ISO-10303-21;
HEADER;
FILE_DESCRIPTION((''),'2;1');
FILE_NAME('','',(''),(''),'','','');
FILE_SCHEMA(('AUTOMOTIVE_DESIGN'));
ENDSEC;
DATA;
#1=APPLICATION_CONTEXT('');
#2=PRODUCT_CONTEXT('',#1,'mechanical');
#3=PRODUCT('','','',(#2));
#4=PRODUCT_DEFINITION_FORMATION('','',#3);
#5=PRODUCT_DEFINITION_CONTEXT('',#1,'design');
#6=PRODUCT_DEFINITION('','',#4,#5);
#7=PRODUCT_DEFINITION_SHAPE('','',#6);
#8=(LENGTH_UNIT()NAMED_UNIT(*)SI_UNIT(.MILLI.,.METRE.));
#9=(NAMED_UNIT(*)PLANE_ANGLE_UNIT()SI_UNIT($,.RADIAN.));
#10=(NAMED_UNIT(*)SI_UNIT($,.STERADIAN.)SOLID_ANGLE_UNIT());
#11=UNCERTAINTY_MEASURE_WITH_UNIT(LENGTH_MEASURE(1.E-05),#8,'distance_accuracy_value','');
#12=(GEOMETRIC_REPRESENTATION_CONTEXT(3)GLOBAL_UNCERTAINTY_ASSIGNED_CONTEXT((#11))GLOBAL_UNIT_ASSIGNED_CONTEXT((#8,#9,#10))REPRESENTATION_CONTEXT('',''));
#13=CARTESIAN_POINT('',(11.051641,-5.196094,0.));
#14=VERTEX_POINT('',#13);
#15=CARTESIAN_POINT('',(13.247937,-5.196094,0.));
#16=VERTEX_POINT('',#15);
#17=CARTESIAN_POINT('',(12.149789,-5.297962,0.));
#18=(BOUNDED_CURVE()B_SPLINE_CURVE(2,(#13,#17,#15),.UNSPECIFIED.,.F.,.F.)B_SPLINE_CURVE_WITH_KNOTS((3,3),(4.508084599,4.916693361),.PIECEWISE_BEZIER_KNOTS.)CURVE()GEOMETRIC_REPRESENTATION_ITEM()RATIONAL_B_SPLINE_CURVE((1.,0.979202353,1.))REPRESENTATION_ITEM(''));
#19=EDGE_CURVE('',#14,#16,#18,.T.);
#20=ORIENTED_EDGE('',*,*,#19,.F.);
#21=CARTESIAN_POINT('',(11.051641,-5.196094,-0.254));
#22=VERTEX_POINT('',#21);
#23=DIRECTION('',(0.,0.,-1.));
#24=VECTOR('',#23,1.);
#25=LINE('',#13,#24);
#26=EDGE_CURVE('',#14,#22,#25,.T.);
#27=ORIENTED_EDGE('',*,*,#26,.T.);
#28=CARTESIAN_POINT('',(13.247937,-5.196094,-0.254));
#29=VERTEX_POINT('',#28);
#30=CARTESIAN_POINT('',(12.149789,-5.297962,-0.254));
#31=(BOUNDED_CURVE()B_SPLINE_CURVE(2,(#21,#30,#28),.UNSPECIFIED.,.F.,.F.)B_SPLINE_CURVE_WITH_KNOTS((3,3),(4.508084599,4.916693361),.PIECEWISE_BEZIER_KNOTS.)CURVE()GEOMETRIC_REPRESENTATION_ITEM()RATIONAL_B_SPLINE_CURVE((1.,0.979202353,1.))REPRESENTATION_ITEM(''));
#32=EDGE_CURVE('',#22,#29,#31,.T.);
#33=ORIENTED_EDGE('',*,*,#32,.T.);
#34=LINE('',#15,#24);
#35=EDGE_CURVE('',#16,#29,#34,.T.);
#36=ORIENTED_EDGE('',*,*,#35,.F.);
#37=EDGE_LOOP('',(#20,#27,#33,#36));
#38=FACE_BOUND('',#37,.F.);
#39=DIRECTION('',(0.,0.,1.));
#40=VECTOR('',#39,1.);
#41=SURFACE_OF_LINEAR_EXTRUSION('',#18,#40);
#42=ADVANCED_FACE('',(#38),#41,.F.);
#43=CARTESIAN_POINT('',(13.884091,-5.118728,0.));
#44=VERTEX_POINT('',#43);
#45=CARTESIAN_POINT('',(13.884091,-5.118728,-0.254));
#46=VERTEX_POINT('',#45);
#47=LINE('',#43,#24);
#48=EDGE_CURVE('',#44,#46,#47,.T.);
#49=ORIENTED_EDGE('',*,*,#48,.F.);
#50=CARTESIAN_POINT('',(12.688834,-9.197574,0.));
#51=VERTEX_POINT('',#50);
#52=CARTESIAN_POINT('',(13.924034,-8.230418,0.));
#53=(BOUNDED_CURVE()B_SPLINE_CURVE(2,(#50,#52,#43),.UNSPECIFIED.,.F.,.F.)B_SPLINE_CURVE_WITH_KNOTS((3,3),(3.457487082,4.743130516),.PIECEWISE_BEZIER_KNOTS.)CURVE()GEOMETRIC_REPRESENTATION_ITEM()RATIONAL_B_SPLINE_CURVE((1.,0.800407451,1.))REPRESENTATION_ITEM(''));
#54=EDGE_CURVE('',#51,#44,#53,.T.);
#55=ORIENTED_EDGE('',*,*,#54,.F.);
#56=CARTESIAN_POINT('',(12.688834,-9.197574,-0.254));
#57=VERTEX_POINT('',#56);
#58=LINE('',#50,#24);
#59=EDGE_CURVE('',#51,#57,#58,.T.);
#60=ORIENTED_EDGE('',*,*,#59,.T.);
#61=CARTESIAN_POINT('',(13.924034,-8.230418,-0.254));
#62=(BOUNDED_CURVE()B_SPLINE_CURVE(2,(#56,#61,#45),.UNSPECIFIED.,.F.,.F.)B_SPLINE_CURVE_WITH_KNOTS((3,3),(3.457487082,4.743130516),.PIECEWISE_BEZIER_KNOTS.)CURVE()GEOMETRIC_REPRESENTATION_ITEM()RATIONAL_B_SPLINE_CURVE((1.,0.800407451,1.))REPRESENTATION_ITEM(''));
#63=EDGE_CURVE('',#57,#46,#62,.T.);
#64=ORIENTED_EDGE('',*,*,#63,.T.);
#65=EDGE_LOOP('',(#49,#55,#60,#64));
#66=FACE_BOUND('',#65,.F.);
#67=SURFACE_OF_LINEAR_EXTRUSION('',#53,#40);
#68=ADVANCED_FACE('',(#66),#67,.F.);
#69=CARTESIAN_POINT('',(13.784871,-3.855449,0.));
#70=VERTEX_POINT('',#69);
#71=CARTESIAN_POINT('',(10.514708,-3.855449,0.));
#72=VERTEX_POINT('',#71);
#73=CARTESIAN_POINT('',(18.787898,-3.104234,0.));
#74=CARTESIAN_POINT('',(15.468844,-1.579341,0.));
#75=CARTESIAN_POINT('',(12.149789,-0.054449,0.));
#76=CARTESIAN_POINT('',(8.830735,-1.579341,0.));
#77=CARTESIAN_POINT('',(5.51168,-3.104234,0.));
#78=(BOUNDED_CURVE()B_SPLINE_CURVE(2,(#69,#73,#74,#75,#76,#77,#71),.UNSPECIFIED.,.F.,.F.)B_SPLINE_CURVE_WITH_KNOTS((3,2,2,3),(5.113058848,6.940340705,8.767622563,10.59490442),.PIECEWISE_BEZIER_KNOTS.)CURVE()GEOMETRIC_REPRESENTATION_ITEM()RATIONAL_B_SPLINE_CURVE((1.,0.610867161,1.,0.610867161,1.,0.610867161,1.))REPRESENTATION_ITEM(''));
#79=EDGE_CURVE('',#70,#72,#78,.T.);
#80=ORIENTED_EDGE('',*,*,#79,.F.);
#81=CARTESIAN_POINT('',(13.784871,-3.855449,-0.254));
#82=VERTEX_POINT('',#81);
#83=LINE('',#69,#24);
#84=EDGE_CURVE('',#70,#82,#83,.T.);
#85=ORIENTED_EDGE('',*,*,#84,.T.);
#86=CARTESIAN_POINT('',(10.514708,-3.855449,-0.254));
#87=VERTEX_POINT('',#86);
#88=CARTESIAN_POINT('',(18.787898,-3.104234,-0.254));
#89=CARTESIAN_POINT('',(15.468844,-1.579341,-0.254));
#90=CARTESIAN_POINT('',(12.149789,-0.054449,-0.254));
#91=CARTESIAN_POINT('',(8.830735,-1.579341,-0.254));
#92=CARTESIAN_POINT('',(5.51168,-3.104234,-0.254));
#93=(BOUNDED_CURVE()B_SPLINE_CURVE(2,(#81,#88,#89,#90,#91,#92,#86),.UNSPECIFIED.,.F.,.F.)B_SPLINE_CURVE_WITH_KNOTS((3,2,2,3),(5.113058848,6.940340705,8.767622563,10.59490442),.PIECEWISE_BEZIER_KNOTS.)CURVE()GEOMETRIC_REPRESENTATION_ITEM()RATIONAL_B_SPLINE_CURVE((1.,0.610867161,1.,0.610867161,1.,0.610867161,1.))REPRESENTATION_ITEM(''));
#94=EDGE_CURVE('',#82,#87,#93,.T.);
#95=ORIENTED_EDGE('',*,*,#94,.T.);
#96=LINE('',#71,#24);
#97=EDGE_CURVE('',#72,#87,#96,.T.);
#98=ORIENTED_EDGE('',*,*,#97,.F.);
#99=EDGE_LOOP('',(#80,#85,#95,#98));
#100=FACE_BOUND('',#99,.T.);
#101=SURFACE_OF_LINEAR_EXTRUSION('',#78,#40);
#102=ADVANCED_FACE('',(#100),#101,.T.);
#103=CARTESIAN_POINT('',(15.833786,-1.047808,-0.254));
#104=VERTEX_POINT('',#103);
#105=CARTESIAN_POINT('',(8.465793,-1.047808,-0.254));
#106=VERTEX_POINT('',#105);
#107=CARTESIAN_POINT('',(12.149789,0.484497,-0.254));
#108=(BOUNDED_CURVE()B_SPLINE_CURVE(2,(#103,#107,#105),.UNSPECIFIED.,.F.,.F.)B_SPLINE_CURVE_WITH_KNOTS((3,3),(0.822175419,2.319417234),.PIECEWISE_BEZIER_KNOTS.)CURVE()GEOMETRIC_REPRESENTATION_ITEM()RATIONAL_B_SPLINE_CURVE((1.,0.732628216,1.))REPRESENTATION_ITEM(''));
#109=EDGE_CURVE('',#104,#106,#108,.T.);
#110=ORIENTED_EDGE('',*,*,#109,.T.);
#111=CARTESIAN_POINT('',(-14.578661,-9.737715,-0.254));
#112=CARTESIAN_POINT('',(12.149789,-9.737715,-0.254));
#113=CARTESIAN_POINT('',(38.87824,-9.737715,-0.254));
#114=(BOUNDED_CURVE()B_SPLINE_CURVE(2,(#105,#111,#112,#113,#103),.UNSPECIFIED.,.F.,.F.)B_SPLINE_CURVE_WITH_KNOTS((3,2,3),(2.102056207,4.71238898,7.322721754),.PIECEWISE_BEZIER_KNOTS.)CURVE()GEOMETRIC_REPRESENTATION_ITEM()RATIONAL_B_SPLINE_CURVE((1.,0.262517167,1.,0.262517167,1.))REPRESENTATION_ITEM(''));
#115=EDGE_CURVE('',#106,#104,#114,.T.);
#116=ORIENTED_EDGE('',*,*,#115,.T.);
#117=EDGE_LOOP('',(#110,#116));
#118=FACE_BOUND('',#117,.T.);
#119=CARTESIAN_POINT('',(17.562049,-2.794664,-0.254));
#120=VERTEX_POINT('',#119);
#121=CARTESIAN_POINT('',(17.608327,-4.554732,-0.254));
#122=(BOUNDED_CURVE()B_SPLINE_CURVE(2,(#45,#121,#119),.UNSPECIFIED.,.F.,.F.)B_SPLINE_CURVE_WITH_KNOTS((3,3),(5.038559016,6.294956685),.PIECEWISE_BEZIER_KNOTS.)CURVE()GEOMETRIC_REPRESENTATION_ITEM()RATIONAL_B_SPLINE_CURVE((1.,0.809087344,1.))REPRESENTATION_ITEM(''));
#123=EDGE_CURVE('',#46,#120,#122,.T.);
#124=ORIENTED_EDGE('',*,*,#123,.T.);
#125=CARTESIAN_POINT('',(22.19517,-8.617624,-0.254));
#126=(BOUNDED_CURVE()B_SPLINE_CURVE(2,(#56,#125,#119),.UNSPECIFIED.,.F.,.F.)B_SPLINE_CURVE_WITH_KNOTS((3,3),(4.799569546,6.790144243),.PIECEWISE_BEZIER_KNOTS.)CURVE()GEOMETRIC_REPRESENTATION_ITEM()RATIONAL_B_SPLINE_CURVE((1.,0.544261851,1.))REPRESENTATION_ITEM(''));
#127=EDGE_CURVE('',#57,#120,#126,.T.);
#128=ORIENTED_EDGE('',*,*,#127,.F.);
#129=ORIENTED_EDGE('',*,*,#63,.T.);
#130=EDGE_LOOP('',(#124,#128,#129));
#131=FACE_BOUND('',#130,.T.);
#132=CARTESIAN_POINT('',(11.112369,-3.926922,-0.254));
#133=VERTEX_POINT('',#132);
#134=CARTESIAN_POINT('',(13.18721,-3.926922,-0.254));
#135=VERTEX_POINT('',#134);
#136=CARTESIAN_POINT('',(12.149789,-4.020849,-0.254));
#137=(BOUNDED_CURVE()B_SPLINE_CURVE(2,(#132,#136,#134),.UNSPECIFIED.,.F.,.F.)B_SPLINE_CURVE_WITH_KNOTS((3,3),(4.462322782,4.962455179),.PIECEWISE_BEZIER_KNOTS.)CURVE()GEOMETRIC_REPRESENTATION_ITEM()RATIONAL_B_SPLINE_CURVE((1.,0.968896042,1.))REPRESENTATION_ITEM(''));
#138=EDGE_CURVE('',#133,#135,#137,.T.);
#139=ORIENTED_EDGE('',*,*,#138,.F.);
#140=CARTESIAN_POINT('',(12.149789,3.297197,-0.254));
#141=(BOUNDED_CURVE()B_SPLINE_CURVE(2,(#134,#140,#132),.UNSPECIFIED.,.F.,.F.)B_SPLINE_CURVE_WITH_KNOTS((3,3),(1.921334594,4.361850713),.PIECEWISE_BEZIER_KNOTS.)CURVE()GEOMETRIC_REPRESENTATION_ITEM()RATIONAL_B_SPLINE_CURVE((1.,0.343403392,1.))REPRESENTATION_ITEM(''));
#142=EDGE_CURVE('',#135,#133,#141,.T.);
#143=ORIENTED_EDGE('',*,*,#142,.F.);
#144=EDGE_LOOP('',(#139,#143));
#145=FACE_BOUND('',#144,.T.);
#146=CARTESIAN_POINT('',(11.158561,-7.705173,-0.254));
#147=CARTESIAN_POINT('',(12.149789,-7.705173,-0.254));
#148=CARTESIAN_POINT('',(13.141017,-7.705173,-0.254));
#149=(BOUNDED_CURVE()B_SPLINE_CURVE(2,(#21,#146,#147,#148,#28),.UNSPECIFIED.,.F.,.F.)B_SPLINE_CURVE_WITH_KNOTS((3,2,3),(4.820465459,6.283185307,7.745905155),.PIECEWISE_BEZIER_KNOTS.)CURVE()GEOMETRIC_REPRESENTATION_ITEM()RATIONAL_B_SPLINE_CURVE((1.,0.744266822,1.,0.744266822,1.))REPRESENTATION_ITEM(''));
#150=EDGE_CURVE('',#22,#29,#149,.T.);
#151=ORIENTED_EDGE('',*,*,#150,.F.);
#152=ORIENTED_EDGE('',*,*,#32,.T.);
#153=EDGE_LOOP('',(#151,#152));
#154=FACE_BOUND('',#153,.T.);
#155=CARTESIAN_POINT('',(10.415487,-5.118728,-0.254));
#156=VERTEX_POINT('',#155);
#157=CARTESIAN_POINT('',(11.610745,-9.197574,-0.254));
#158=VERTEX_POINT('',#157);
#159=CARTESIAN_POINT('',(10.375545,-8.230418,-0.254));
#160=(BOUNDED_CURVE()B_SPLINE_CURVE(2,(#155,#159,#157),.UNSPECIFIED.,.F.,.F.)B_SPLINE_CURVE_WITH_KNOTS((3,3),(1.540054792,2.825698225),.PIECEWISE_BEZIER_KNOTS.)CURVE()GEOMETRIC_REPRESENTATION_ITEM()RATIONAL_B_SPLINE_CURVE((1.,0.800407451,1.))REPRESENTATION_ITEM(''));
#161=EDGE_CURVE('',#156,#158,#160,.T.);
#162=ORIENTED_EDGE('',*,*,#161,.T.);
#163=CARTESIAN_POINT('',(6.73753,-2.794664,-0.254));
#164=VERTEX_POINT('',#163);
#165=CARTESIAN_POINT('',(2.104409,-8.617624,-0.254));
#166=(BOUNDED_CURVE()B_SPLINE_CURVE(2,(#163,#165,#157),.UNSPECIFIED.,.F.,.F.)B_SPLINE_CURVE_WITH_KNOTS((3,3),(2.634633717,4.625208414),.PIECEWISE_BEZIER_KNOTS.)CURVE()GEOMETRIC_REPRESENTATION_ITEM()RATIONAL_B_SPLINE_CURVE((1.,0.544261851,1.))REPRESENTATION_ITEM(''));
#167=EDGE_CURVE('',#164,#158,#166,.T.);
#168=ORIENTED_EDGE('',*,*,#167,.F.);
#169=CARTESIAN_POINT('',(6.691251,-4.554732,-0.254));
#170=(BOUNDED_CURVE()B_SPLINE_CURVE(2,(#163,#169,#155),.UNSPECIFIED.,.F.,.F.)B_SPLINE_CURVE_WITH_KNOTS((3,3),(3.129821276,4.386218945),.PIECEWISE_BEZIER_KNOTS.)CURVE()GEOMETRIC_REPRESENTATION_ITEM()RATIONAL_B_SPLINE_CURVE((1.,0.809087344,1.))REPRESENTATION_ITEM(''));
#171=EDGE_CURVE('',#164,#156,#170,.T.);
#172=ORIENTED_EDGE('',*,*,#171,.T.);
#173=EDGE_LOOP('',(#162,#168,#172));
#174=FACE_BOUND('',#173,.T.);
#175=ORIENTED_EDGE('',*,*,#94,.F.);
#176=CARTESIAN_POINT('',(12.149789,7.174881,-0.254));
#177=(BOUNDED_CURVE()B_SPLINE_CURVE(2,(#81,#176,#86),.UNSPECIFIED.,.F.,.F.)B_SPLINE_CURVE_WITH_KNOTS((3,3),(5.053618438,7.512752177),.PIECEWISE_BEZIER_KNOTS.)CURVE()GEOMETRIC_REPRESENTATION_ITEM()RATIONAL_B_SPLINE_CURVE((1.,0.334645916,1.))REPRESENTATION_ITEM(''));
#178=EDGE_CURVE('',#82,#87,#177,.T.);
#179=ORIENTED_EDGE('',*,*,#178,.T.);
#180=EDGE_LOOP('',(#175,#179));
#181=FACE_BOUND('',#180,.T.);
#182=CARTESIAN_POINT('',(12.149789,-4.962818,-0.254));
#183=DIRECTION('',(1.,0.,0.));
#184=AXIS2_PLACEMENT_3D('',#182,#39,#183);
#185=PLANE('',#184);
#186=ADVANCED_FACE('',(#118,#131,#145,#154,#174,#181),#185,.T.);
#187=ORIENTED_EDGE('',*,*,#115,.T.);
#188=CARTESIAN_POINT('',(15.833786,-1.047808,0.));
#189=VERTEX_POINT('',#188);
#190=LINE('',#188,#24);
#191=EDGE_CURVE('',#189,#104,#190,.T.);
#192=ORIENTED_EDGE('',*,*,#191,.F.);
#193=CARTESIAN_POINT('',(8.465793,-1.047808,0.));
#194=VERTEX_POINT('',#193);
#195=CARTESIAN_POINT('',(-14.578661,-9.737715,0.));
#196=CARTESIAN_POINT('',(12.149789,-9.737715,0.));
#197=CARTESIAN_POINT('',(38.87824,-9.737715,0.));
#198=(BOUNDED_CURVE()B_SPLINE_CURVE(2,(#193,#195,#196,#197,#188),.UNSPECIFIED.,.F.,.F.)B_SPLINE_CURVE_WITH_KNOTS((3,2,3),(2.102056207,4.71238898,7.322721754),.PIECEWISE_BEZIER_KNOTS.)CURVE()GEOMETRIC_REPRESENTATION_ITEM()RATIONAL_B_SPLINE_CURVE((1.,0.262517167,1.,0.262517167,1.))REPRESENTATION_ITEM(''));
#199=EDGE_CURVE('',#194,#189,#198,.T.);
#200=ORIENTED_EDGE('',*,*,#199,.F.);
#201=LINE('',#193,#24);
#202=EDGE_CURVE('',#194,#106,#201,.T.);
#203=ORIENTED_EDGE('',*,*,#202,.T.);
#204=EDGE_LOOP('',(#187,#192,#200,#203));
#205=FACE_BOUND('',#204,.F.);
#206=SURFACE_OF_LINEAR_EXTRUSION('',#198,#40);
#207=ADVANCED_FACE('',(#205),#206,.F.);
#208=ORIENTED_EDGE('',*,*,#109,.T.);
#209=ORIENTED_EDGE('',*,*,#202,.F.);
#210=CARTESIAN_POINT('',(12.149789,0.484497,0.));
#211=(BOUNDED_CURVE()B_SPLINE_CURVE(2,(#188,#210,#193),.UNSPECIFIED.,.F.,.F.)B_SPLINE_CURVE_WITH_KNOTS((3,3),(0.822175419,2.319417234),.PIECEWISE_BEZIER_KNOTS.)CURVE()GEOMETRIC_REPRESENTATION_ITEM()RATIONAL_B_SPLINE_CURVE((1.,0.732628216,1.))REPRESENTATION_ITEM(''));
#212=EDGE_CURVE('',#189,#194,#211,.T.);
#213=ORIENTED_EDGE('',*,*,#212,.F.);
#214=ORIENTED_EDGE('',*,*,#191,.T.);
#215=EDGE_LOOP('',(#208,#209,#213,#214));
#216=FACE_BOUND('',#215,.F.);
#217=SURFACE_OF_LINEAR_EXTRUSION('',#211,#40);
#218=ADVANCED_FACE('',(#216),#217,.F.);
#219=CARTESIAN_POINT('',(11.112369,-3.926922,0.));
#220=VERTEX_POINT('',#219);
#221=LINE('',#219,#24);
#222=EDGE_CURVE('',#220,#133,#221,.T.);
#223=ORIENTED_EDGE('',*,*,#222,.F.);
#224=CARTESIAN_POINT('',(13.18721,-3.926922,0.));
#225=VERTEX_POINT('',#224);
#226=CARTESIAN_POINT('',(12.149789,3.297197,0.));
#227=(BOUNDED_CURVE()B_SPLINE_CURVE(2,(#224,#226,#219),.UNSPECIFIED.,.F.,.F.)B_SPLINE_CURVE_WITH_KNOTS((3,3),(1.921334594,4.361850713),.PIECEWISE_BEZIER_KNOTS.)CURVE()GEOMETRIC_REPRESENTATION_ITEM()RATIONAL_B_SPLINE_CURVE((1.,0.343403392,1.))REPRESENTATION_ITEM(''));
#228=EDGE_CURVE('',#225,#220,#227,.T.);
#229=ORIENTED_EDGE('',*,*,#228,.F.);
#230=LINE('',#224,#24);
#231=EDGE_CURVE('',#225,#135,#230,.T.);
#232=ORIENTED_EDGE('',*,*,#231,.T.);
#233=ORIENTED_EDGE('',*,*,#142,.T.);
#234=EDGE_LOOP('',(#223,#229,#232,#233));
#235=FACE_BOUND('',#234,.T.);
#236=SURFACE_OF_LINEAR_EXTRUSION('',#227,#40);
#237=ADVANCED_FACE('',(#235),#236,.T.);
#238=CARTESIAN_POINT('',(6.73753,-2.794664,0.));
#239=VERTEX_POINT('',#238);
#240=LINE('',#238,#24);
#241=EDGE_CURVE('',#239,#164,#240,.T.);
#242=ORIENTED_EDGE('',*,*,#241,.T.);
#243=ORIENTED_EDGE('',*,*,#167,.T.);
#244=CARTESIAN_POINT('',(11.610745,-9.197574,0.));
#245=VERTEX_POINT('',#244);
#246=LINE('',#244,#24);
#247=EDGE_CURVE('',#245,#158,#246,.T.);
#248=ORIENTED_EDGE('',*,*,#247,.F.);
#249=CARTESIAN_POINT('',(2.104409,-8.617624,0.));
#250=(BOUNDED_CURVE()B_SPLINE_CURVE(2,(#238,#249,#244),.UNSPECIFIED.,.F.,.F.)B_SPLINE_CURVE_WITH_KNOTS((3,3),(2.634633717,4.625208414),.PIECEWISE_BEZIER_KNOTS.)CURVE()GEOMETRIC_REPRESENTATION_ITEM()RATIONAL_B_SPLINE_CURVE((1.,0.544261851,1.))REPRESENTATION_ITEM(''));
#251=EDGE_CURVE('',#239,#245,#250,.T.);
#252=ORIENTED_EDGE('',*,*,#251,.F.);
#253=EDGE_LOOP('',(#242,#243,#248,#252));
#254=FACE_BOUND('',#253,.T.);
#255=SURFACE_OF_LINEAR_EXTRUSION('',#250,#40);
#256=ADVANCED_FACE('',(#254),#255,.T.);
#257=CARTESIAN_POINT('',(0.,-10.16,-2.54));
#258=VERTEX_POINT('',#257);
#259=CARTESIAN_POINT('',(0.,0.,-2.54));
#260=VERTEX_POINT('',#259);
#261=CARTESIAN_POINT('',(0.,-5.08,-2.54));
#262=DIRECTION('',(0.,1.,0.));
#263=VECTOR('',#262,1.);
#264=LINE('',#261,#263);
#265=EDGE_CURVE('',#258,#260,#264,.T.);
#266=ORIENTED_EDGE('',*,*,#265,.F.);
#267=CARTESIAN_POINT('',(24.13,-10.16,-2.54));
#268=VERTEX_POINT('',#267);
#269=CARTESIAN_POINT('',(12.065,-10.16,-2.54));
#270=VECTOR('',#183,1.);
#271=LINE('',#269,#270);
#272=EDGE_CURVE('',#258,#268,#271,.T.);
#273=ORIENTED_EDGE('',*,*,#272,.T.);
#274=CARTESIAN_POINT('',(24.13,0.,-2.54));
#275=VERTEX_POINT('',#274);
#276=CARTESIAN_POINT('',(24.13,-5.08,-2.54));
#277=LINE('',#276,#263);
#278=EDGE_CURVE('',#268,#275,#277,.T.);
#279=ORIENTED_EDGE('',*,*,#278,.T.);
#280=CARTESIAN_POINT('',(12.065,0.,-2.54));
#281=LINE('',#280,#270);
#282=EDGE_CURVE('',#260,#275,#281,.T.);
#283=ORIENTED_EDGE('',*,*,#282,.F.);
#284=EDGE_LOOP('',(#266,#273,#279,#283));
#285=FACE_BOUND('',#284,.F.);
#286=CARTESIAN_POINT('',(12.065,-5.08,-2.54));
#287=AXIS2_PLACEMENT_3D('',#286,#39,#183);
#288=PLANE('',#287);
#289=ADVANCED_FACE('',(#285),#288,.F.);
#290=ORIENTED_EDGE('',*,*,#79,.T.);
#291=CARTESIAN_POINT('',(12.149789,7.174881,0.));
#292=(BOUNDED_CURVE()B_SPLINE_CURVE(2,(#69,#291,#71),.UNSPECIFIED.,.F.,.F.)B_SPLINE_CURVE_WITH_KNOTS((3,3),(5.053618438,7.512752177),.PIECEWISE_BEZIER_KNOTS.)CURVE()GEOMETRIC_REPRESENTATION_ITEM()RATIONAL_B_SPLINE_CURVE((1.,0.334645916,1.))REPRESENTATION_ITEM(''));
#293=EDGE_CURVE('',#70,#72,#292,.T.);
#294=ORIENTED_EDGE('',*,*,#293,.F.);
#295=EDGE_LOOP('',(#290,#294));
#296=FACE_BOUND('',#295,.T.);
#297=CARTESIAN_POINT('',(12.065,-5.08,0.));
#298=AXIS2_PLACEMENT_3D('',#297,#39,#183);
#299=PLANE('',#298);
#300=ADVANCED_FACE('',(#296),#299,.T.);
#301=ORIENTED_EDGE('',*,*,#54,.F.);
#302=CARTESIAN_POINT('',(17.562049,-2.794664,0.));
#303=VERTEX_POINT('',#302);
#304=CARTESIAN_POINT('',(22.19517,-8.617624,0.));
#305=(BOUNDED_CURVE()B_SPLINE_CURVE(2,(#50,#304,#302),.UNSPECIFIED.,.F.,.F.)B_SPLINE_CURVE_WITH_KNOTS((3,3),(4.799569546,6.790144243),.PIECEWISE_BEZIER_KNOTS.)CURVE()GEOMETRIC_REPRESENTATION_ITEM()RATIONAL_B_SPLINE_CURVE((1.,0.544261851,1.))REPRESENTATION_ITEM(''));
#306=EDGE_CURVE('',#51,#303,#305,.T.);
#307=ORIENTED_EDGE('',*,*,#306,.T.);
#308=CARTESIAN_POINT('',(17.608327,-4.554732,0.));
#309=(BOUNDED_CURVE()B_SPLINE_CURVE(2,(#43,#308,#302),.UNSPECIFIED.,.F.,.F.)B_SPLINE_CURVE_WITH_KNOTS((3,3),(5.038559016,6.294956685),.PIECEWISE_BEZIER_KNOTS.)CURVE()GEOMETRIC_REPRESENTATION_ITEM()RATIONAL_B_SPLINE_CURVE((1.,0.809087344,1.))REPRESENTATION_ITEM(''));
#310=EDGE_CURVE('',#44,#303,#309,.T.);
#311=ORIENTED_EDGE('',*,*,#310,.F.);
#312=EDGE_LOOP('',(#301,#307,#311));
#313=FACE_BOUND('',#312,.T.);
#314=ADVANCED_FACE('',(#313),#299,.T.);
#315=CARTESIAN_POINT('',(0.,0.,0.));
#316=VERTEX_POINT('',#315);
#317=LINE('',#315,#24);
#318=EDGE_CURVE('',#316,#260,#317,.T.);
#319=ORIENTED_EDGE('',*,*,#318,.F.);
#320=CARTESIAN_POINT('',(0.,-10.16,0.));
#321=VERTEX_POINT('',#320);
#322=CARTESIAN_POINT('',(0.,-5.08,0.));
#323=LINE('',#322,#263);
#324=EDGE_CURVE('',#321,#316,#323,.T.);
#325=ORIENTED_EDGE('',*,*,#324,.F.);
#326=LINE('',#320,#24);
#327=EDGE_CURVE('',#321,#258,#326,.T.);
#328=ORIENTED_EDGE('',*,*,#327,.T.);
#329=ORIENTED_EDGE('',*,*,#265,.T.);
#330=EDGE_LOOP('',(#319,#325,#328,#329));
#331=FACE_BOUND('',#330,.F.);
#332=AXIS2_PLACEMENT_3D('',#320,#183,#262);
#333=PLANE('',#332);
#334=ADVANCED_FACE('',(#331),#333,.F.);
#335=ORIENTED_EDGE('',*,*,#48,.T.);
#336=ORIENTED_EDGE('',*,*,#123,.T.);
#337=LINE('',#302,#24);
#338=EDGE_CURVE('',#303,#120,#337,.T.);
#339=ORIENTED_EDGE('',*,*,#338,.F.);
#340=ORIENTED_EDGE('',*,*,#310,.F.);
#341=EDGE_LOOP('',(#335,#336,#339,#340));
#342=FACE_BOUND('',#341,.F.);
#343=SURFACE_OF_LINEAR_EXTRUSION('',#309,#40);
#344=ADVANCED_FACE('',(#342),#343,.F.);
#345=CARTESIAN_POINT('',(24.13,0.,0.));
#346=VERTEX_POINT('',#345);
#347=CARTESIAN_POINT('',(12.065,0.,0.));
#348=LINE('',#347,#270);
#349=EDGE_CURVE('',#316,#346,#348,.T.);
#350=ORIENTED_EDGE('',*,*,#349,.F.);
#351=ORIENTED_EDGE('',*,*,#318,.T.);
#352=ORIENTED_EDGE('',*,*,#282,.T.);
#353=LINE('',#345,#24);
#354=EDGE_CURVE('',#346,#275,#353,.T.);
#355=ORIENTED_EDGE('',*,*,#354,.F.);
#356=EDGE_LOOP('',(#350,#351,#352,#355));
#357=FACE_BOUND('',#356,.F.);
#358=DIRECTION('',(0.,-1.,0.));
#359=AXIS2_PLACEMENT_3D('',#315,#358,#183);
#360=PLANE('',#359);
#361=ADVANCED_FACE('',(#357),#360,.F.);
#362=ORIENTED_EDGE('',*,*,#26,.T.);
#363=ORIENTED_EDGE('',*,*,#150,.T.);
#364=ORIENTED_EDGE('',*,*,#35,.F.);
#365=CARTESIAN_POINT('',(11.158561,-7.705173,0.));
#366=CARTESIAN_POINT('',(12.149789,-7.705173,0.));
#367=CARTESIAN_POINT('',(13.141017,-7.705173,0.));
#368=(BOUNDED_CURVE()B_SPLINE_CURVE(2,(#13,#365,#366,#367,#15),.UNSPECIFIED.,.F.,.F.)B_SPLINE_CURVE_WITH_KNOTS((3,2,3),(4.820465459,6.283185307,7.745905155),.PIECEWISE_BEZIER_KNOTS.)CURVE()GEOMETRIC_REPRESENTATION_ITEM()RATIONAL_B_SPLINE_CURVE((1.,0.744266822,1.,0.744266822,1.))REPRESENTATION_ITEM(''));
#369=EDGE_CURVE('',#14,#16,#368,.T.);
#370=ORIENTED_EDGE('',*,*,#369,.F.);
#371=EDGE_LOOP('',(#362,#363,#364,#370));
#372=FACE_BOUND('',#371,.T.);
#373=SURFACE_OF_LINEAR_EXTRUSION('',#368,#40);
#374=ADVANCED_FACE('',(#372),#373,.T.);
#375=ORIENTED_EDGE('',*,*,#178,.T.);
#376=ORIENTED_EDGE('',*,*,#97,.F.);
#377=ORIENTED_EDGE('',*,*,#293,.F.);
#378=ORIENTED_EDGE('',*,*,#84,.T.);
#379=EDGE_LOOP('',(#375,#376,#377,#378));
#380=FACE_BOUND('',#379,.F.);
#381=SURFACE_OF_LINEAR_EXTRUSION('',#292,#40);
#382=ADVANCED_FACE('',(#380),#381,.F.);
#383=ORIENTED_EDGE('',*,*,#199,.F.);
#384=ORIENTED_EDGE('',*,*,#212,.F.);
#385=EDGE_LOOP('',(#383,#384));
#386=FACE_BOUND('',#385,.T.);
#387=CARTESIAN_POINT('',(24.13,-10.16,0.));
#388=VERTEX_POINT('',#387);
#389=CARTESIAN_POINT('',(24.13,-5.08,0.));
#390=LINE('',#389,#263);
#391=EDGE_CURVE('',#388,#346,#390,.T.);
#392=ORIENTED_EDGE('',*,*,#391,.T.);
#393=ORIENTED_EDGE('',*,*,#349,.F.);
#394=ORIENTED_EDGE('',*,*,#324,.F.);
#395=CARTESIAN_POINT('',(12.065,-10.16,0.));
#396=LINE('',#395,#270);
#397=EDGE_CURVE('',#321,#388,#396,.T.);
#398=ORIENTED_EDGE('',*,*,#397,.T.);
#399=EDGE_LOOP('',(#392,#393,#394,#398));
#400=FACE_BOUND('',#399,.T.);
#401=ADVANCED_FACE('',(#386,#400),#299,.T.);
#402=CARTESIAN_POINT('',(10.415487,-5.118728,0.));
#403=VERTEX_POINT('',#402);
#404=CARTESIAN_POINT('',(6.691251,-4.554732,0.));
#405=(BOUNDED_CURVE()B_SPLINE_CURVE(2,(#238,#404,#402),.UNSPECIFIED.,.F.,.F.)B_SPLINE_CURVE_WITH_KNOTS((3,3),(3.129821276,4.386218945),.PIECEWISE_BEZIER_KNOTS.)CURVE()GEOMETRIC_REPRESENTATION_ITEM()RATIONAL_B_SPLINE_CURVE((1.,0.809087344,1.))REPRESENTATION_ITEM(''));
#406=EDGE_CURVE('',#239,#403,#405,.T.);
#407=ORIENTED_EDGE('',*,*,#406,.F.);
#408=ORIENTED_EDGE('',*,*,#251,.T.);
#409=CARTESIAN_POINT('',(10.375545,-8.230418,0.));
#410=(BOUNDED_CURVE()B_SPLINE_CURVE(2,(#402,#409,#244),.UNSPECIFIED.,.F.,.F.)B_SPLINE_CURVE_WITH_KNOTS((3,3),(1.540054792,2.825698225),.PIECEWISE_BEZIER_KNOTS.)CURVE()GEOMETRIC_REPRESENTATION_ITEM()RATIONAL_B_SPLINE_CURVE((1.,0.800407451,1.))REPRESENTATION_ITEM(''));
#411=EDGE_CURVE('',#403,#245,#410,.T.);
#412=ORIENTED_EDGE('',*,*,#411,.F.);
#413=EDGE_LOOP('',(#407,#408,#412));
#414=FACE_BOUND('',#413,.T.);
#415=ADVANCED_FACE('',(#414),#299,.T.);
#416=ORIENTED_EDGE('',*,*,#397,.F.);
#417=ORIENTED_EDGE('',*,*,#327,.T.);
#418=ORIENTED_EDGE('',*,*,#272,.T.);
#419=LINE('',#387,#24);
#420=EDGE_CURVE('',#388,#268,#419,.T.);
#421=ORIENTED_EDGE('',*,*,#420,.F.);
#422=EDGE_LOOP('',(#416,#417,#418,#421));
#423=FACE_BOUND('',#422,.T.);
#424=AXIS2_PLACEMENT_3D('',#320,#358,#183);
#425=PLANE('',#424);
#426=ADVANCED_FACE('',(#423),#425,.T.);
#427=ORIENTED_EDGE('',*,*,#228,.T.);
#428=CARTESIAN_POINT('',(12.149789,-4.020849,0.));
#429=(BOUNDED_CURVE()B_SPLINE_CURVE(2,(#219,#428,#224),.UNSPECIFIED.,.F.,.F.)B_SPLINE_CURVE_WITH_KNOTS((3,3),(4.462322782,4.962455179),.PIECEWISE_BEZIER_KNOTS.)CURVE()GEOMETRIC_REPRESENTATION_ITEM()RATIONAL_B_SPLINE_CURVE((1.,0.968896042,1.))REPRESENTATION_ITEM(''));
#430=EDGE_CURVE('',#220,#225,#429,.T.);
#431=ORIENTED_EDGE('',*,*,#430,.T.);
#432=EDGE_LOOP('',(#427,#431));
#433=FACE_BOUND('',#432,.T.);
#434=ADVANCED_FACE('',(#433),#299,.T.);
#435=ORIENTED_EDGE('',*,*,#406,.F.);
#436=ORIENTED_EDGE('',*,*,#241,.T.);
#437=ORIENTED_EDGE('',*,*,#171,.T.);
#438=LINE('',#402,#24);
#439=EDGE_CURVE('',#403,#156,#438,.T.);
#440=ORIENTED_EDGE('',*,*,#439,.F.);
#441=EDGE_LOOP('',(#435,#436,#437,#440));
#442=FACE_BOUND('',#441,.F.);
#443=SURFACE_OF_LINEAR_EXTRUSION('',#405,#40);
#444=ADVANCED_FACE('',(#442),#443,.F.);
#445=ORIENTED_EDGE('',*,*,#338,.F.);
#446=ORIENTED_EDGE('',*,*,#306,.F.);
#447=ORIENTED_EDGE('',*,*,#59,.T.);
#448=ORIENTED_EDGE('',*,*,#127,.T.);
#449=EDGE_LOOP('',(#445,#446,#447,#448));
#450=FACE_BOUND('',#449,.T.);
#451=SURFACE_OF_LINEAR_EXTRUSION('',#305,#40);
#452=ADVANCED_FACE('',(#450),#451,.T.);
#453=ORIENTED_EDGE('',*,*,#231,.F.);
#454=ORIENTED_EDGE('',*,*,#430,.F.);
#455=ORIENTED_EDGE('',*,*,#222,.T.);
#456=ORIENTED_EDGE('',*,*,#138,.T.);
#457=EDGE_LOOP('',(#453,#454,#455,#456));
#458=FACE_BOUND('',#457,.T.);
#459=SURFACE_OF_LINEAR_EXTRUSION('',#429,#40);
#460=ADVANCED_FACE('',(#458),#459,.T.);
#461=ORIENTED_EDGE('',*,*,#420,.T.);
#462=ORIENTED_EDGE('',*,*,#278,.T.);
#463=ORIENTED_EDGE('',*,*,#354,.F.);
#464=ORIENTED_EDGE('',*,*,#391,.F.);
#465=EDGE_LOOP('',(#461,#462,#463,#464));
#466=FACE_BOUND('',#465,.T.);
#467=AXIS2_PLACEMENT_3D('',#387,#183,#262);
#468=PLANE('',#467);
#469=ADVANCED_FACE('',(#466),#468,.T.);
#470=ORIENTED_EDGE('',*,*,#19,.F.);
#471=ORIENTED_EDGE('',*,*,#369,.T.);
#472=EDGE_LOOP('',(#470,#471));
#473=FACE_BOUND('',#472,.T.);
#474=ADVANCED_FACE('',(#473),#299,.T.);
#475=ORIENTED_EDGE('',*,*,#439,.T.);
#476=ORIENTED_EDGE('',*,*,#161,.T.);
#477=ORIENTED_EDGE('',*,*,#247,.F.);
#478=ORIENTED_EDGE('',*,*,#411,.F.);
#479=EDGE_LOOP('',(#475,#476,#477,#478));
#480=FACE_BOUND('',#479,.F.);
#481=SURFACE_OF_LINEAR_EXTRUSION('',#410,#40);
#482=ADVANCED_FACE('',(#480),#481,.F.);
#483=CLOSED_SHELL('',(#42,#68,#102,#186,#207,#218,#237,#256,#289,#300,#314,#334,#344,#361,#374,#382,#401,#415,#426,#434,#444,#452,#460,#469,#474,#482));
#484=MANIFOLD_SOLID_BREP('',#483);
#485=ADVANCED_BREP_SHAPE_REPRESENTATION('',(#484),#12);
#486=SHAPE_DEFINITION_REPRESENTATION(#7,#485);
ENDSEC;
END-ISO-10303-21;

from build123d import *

# Parameters (mm, degrees)
F0_W     = 24.13
F0_H     = 10.16
F2_DEPTH = 2.54
F3_DEPTH = 0.254


with BuildPart() as f2:
    # F0 (on Top) → F2 (new body)
    with BuildSketch(Plane.XY):
        with Locations((12.065, -5.08)):
            Rectangle(F0_W, F0_H)
    extrude(amount=-F2_DEPTH)

    # F1 (on Top) → F3 (cut)
    with BuildSketch(Plane.XY):
        with BuildLine():
            add(Edge.make_bspline(
                [(8.4657929971, -1.0478082096), (-14.5786610899, -9.7377153717), (12.1497893706, -9.7377153717), (38.8782398311, -9.7377153717), (15.8337857441, -1.0478082096)],
                knots=[2.102056207, 2.102056207, 2.102056207, 4.7123889804, 4.7123889804, 7.3227217538, 7.3227217538, 7.3227217538], degree=2, weights=[1, 0.2625171666, 1, 0.2625171666, 1]))
            add(Edge.make_bspline(
                [(15.8337857441, -1.0478082096), (12.1497893706, 0.3414018081), (8.4657929971, -1.0478082096)],
                knots=[1.0395364466, 1.0395364466, 1.0395364466, 2.102056207, 2.102056207, 2.102056207], degree=2, weights=[1, 0.8621694745, 1]))
        make_face()
        with BuildLine():
            add(Edge.make_bspline(
                [(6.7375296922, -2.7946639807), (6.6912513592, -4.5547321645), (10.4154872997, -5.1187276263)],
                knots=[3.1298212757, 3.1298212757, 3.1298212757, 4.3862189448, 4.3862189448, 4.3862189448], degree=2, weights=[1, 0.8090873442, 1]))
            add(Edge.make_bspline(
                [(10.4154872997, -5.1187276263), (10.3755449532, -8.2304178079), (11.6107446638, -9.197573501)],
                knots=[1.5400547916, 1.5400547916, 1.5400547916, 2.8256982249, 2.8256982249, 2.8256982249], degree=2, weights=[1, 0.8004074506, 1]))
            add(Edge.make_bspline(
                [(6.7375296922, -2.7946639807), (2.1044091607, -8.617624256), (11.6107446638, -9.197573501)],
                knots=[2.6346337174, 2.6346337174, 2.6346337174, 4.6252084144, 4.6252084144, 4.6252084144], degree=2, weights=[1, 0.5442618509, 1]))
        make_face(mode=Mode.SUBTRACT)
        with BuildLine():
            add(Edge.make_bspline(
                [(11.051641262, -5.1960937268), (11.1585612733, -7.7051730692), (12.1497893706, -7.7051730692), (13.1410174679, -7.7051730692), (13.2479374792, -5.1960937268)],
                knots=[4.820465459, 4.820465459, 4.820465459, 6.2831853072, 6.2831853072, 7.7459051554, 7.7459051554, 7.7459051554], degree=2, weights=[1, 0.7442668215, 1, 0.7442668215, 1]))
            add(Edge.make_bspline(
                [(11.051641262, -5.1960937268), (12.1497893706, -5.2979622052), (13.2479374792, -5.1960937268)],
                knots=[4.5080845994, 4.5080845994, 4.5080845994, 4.9166933613, 4.9166933613, 4.9166933613], degree=2, weights=[1, 0.9792023528, 1]))
        make_face(mode=Mode.SUBTRACT)
        with BuildLine():
            add(Edge.make_bspline(
                [(12.6888340773, -9.197573501), (13.924033788, -8.2304178079), (13.8840914415, -5.1187276263)],
                knots=[3.4574870822, 3.4574870822, 3.4574870822, 4.7431305156, 4.7431305156, 4.7431305156], degree=2, weights=[1, 0.8004074506, 1]))
            add(Edge.make_bspline(
                [(13.8840914415, -5.1187276263), (17.608327382, -4.5547321645), (17.562049049, -2.7946639807)],
                knots=[5.038559016, 5.038559016, 5.038559016, 6.2949566851, 6.2949566851, 6.2949566851], degree=2, weights=[1, 0.8090873442, 1]))
            add(Edge.make_bspline(
                [(12.6888340773, -9.197573501), (22.1951695805, -8.617624256), (17.562049049, -2.7946639807)],
                knots=[4.7995695463, 4.7995695463, 4.7995695463, 6.7901442434, 6.7901442434, 6.7901442434], degree=2, weights=[1, 0.5442618509, 1]))
        make_face(mode=Mode.SUBTRACT)
        with BuildLine():
            add(Edge.make_bspline(
                [(13.1872098156, -3.9269217463), (12.1497893706, 3.2971973652), (11.1123689256, -3.9269217463)],
                knots=[1.9213345944, 1.9213345944, 1.9213345944, 4.3618507128, 4.3618507128, 4.3618507128], degree=2, weights=[1, 0.3434033916, 1]))
            add(Edge.make_bspline(
                [(11.1123689256, -3.9269217463), (12.1497893706, -4.0208485925), (13.1872098156, -3.9269217463)],
                knots=[4.4623227822, 4.4623227822, 4.4623227822, 4.9624551786, 4.9624551786, 4.9624551786], degree=2, weights=[1, 0.9688960419, 1]))
        make_face(mode=Mode.SUBTRACT)
        with BuildLine():
            add(Edge.make_bspline(
                [(13.7848709754, -3.8554493307), (18.7878984023, -3.1042341491), (15.4688438864, -1.5793413647), (12.1497893706, -0.0544485804), (8.8307348548, -1.5793413647), (5.5116803389, -3.1042341491), (10.5147077658, -3.8554493307)],
                knots=[5.1130588482, 5.1130588482, 5.1130588482, 6.9403407054, 6.9403407054, 8.7676225626, 8.7676225626, 10.5949044198, 10.5949044198, 10.5949044198], degree=2, weights=[1, 0.6108671611, 1, 0.6108671611, 1, 0.6108671611, 1]))
            add(Edge.make_bspline(
                [(13.7848709754, -3.8554493307), (12.1497893706, 7.1748808552), (10.5147077658, -3.8554493307)],
                knots=[5.0536184378, 5.0536184378, 5.0536184378, 7.5127521766, 7.5127521766, 7.5127521766], degree=2, weights=[1, 0.3346459165, 1]))
        make_face(mode=Mode.SUBTRACT)
        with BuildLine():
            add(Edge.make_bspline(
                [(15.8337857441, -1.0478082096), (12.1497893706, 0.3414018081), (8.4657929971, -1.0478082096)],
                knots=[1.0395364466, 1.0395364466, 1.0395364466, 2.102056207, 2.102056207, 2.102056207], degree=2, weights=[1, 0.8621694745, 1]))
            add(Edge.make_bspline(
                [(15.8337857441, -1.0478082096), (12.1497893706, 0.4844966514), (8.4657929971, -1.0478082096)],
                knots=[0.8221754192, 0.8221754192, 0.8221754192, 2.3194172344, 2.3194172344, 2.3194172344], degree=2, weights=[1, 0.7326282156, 1]))
        make_face()
    extrude(amount=-F3_DEPTH, mode=Mode.SUBTRACT)


solid = f2.part
